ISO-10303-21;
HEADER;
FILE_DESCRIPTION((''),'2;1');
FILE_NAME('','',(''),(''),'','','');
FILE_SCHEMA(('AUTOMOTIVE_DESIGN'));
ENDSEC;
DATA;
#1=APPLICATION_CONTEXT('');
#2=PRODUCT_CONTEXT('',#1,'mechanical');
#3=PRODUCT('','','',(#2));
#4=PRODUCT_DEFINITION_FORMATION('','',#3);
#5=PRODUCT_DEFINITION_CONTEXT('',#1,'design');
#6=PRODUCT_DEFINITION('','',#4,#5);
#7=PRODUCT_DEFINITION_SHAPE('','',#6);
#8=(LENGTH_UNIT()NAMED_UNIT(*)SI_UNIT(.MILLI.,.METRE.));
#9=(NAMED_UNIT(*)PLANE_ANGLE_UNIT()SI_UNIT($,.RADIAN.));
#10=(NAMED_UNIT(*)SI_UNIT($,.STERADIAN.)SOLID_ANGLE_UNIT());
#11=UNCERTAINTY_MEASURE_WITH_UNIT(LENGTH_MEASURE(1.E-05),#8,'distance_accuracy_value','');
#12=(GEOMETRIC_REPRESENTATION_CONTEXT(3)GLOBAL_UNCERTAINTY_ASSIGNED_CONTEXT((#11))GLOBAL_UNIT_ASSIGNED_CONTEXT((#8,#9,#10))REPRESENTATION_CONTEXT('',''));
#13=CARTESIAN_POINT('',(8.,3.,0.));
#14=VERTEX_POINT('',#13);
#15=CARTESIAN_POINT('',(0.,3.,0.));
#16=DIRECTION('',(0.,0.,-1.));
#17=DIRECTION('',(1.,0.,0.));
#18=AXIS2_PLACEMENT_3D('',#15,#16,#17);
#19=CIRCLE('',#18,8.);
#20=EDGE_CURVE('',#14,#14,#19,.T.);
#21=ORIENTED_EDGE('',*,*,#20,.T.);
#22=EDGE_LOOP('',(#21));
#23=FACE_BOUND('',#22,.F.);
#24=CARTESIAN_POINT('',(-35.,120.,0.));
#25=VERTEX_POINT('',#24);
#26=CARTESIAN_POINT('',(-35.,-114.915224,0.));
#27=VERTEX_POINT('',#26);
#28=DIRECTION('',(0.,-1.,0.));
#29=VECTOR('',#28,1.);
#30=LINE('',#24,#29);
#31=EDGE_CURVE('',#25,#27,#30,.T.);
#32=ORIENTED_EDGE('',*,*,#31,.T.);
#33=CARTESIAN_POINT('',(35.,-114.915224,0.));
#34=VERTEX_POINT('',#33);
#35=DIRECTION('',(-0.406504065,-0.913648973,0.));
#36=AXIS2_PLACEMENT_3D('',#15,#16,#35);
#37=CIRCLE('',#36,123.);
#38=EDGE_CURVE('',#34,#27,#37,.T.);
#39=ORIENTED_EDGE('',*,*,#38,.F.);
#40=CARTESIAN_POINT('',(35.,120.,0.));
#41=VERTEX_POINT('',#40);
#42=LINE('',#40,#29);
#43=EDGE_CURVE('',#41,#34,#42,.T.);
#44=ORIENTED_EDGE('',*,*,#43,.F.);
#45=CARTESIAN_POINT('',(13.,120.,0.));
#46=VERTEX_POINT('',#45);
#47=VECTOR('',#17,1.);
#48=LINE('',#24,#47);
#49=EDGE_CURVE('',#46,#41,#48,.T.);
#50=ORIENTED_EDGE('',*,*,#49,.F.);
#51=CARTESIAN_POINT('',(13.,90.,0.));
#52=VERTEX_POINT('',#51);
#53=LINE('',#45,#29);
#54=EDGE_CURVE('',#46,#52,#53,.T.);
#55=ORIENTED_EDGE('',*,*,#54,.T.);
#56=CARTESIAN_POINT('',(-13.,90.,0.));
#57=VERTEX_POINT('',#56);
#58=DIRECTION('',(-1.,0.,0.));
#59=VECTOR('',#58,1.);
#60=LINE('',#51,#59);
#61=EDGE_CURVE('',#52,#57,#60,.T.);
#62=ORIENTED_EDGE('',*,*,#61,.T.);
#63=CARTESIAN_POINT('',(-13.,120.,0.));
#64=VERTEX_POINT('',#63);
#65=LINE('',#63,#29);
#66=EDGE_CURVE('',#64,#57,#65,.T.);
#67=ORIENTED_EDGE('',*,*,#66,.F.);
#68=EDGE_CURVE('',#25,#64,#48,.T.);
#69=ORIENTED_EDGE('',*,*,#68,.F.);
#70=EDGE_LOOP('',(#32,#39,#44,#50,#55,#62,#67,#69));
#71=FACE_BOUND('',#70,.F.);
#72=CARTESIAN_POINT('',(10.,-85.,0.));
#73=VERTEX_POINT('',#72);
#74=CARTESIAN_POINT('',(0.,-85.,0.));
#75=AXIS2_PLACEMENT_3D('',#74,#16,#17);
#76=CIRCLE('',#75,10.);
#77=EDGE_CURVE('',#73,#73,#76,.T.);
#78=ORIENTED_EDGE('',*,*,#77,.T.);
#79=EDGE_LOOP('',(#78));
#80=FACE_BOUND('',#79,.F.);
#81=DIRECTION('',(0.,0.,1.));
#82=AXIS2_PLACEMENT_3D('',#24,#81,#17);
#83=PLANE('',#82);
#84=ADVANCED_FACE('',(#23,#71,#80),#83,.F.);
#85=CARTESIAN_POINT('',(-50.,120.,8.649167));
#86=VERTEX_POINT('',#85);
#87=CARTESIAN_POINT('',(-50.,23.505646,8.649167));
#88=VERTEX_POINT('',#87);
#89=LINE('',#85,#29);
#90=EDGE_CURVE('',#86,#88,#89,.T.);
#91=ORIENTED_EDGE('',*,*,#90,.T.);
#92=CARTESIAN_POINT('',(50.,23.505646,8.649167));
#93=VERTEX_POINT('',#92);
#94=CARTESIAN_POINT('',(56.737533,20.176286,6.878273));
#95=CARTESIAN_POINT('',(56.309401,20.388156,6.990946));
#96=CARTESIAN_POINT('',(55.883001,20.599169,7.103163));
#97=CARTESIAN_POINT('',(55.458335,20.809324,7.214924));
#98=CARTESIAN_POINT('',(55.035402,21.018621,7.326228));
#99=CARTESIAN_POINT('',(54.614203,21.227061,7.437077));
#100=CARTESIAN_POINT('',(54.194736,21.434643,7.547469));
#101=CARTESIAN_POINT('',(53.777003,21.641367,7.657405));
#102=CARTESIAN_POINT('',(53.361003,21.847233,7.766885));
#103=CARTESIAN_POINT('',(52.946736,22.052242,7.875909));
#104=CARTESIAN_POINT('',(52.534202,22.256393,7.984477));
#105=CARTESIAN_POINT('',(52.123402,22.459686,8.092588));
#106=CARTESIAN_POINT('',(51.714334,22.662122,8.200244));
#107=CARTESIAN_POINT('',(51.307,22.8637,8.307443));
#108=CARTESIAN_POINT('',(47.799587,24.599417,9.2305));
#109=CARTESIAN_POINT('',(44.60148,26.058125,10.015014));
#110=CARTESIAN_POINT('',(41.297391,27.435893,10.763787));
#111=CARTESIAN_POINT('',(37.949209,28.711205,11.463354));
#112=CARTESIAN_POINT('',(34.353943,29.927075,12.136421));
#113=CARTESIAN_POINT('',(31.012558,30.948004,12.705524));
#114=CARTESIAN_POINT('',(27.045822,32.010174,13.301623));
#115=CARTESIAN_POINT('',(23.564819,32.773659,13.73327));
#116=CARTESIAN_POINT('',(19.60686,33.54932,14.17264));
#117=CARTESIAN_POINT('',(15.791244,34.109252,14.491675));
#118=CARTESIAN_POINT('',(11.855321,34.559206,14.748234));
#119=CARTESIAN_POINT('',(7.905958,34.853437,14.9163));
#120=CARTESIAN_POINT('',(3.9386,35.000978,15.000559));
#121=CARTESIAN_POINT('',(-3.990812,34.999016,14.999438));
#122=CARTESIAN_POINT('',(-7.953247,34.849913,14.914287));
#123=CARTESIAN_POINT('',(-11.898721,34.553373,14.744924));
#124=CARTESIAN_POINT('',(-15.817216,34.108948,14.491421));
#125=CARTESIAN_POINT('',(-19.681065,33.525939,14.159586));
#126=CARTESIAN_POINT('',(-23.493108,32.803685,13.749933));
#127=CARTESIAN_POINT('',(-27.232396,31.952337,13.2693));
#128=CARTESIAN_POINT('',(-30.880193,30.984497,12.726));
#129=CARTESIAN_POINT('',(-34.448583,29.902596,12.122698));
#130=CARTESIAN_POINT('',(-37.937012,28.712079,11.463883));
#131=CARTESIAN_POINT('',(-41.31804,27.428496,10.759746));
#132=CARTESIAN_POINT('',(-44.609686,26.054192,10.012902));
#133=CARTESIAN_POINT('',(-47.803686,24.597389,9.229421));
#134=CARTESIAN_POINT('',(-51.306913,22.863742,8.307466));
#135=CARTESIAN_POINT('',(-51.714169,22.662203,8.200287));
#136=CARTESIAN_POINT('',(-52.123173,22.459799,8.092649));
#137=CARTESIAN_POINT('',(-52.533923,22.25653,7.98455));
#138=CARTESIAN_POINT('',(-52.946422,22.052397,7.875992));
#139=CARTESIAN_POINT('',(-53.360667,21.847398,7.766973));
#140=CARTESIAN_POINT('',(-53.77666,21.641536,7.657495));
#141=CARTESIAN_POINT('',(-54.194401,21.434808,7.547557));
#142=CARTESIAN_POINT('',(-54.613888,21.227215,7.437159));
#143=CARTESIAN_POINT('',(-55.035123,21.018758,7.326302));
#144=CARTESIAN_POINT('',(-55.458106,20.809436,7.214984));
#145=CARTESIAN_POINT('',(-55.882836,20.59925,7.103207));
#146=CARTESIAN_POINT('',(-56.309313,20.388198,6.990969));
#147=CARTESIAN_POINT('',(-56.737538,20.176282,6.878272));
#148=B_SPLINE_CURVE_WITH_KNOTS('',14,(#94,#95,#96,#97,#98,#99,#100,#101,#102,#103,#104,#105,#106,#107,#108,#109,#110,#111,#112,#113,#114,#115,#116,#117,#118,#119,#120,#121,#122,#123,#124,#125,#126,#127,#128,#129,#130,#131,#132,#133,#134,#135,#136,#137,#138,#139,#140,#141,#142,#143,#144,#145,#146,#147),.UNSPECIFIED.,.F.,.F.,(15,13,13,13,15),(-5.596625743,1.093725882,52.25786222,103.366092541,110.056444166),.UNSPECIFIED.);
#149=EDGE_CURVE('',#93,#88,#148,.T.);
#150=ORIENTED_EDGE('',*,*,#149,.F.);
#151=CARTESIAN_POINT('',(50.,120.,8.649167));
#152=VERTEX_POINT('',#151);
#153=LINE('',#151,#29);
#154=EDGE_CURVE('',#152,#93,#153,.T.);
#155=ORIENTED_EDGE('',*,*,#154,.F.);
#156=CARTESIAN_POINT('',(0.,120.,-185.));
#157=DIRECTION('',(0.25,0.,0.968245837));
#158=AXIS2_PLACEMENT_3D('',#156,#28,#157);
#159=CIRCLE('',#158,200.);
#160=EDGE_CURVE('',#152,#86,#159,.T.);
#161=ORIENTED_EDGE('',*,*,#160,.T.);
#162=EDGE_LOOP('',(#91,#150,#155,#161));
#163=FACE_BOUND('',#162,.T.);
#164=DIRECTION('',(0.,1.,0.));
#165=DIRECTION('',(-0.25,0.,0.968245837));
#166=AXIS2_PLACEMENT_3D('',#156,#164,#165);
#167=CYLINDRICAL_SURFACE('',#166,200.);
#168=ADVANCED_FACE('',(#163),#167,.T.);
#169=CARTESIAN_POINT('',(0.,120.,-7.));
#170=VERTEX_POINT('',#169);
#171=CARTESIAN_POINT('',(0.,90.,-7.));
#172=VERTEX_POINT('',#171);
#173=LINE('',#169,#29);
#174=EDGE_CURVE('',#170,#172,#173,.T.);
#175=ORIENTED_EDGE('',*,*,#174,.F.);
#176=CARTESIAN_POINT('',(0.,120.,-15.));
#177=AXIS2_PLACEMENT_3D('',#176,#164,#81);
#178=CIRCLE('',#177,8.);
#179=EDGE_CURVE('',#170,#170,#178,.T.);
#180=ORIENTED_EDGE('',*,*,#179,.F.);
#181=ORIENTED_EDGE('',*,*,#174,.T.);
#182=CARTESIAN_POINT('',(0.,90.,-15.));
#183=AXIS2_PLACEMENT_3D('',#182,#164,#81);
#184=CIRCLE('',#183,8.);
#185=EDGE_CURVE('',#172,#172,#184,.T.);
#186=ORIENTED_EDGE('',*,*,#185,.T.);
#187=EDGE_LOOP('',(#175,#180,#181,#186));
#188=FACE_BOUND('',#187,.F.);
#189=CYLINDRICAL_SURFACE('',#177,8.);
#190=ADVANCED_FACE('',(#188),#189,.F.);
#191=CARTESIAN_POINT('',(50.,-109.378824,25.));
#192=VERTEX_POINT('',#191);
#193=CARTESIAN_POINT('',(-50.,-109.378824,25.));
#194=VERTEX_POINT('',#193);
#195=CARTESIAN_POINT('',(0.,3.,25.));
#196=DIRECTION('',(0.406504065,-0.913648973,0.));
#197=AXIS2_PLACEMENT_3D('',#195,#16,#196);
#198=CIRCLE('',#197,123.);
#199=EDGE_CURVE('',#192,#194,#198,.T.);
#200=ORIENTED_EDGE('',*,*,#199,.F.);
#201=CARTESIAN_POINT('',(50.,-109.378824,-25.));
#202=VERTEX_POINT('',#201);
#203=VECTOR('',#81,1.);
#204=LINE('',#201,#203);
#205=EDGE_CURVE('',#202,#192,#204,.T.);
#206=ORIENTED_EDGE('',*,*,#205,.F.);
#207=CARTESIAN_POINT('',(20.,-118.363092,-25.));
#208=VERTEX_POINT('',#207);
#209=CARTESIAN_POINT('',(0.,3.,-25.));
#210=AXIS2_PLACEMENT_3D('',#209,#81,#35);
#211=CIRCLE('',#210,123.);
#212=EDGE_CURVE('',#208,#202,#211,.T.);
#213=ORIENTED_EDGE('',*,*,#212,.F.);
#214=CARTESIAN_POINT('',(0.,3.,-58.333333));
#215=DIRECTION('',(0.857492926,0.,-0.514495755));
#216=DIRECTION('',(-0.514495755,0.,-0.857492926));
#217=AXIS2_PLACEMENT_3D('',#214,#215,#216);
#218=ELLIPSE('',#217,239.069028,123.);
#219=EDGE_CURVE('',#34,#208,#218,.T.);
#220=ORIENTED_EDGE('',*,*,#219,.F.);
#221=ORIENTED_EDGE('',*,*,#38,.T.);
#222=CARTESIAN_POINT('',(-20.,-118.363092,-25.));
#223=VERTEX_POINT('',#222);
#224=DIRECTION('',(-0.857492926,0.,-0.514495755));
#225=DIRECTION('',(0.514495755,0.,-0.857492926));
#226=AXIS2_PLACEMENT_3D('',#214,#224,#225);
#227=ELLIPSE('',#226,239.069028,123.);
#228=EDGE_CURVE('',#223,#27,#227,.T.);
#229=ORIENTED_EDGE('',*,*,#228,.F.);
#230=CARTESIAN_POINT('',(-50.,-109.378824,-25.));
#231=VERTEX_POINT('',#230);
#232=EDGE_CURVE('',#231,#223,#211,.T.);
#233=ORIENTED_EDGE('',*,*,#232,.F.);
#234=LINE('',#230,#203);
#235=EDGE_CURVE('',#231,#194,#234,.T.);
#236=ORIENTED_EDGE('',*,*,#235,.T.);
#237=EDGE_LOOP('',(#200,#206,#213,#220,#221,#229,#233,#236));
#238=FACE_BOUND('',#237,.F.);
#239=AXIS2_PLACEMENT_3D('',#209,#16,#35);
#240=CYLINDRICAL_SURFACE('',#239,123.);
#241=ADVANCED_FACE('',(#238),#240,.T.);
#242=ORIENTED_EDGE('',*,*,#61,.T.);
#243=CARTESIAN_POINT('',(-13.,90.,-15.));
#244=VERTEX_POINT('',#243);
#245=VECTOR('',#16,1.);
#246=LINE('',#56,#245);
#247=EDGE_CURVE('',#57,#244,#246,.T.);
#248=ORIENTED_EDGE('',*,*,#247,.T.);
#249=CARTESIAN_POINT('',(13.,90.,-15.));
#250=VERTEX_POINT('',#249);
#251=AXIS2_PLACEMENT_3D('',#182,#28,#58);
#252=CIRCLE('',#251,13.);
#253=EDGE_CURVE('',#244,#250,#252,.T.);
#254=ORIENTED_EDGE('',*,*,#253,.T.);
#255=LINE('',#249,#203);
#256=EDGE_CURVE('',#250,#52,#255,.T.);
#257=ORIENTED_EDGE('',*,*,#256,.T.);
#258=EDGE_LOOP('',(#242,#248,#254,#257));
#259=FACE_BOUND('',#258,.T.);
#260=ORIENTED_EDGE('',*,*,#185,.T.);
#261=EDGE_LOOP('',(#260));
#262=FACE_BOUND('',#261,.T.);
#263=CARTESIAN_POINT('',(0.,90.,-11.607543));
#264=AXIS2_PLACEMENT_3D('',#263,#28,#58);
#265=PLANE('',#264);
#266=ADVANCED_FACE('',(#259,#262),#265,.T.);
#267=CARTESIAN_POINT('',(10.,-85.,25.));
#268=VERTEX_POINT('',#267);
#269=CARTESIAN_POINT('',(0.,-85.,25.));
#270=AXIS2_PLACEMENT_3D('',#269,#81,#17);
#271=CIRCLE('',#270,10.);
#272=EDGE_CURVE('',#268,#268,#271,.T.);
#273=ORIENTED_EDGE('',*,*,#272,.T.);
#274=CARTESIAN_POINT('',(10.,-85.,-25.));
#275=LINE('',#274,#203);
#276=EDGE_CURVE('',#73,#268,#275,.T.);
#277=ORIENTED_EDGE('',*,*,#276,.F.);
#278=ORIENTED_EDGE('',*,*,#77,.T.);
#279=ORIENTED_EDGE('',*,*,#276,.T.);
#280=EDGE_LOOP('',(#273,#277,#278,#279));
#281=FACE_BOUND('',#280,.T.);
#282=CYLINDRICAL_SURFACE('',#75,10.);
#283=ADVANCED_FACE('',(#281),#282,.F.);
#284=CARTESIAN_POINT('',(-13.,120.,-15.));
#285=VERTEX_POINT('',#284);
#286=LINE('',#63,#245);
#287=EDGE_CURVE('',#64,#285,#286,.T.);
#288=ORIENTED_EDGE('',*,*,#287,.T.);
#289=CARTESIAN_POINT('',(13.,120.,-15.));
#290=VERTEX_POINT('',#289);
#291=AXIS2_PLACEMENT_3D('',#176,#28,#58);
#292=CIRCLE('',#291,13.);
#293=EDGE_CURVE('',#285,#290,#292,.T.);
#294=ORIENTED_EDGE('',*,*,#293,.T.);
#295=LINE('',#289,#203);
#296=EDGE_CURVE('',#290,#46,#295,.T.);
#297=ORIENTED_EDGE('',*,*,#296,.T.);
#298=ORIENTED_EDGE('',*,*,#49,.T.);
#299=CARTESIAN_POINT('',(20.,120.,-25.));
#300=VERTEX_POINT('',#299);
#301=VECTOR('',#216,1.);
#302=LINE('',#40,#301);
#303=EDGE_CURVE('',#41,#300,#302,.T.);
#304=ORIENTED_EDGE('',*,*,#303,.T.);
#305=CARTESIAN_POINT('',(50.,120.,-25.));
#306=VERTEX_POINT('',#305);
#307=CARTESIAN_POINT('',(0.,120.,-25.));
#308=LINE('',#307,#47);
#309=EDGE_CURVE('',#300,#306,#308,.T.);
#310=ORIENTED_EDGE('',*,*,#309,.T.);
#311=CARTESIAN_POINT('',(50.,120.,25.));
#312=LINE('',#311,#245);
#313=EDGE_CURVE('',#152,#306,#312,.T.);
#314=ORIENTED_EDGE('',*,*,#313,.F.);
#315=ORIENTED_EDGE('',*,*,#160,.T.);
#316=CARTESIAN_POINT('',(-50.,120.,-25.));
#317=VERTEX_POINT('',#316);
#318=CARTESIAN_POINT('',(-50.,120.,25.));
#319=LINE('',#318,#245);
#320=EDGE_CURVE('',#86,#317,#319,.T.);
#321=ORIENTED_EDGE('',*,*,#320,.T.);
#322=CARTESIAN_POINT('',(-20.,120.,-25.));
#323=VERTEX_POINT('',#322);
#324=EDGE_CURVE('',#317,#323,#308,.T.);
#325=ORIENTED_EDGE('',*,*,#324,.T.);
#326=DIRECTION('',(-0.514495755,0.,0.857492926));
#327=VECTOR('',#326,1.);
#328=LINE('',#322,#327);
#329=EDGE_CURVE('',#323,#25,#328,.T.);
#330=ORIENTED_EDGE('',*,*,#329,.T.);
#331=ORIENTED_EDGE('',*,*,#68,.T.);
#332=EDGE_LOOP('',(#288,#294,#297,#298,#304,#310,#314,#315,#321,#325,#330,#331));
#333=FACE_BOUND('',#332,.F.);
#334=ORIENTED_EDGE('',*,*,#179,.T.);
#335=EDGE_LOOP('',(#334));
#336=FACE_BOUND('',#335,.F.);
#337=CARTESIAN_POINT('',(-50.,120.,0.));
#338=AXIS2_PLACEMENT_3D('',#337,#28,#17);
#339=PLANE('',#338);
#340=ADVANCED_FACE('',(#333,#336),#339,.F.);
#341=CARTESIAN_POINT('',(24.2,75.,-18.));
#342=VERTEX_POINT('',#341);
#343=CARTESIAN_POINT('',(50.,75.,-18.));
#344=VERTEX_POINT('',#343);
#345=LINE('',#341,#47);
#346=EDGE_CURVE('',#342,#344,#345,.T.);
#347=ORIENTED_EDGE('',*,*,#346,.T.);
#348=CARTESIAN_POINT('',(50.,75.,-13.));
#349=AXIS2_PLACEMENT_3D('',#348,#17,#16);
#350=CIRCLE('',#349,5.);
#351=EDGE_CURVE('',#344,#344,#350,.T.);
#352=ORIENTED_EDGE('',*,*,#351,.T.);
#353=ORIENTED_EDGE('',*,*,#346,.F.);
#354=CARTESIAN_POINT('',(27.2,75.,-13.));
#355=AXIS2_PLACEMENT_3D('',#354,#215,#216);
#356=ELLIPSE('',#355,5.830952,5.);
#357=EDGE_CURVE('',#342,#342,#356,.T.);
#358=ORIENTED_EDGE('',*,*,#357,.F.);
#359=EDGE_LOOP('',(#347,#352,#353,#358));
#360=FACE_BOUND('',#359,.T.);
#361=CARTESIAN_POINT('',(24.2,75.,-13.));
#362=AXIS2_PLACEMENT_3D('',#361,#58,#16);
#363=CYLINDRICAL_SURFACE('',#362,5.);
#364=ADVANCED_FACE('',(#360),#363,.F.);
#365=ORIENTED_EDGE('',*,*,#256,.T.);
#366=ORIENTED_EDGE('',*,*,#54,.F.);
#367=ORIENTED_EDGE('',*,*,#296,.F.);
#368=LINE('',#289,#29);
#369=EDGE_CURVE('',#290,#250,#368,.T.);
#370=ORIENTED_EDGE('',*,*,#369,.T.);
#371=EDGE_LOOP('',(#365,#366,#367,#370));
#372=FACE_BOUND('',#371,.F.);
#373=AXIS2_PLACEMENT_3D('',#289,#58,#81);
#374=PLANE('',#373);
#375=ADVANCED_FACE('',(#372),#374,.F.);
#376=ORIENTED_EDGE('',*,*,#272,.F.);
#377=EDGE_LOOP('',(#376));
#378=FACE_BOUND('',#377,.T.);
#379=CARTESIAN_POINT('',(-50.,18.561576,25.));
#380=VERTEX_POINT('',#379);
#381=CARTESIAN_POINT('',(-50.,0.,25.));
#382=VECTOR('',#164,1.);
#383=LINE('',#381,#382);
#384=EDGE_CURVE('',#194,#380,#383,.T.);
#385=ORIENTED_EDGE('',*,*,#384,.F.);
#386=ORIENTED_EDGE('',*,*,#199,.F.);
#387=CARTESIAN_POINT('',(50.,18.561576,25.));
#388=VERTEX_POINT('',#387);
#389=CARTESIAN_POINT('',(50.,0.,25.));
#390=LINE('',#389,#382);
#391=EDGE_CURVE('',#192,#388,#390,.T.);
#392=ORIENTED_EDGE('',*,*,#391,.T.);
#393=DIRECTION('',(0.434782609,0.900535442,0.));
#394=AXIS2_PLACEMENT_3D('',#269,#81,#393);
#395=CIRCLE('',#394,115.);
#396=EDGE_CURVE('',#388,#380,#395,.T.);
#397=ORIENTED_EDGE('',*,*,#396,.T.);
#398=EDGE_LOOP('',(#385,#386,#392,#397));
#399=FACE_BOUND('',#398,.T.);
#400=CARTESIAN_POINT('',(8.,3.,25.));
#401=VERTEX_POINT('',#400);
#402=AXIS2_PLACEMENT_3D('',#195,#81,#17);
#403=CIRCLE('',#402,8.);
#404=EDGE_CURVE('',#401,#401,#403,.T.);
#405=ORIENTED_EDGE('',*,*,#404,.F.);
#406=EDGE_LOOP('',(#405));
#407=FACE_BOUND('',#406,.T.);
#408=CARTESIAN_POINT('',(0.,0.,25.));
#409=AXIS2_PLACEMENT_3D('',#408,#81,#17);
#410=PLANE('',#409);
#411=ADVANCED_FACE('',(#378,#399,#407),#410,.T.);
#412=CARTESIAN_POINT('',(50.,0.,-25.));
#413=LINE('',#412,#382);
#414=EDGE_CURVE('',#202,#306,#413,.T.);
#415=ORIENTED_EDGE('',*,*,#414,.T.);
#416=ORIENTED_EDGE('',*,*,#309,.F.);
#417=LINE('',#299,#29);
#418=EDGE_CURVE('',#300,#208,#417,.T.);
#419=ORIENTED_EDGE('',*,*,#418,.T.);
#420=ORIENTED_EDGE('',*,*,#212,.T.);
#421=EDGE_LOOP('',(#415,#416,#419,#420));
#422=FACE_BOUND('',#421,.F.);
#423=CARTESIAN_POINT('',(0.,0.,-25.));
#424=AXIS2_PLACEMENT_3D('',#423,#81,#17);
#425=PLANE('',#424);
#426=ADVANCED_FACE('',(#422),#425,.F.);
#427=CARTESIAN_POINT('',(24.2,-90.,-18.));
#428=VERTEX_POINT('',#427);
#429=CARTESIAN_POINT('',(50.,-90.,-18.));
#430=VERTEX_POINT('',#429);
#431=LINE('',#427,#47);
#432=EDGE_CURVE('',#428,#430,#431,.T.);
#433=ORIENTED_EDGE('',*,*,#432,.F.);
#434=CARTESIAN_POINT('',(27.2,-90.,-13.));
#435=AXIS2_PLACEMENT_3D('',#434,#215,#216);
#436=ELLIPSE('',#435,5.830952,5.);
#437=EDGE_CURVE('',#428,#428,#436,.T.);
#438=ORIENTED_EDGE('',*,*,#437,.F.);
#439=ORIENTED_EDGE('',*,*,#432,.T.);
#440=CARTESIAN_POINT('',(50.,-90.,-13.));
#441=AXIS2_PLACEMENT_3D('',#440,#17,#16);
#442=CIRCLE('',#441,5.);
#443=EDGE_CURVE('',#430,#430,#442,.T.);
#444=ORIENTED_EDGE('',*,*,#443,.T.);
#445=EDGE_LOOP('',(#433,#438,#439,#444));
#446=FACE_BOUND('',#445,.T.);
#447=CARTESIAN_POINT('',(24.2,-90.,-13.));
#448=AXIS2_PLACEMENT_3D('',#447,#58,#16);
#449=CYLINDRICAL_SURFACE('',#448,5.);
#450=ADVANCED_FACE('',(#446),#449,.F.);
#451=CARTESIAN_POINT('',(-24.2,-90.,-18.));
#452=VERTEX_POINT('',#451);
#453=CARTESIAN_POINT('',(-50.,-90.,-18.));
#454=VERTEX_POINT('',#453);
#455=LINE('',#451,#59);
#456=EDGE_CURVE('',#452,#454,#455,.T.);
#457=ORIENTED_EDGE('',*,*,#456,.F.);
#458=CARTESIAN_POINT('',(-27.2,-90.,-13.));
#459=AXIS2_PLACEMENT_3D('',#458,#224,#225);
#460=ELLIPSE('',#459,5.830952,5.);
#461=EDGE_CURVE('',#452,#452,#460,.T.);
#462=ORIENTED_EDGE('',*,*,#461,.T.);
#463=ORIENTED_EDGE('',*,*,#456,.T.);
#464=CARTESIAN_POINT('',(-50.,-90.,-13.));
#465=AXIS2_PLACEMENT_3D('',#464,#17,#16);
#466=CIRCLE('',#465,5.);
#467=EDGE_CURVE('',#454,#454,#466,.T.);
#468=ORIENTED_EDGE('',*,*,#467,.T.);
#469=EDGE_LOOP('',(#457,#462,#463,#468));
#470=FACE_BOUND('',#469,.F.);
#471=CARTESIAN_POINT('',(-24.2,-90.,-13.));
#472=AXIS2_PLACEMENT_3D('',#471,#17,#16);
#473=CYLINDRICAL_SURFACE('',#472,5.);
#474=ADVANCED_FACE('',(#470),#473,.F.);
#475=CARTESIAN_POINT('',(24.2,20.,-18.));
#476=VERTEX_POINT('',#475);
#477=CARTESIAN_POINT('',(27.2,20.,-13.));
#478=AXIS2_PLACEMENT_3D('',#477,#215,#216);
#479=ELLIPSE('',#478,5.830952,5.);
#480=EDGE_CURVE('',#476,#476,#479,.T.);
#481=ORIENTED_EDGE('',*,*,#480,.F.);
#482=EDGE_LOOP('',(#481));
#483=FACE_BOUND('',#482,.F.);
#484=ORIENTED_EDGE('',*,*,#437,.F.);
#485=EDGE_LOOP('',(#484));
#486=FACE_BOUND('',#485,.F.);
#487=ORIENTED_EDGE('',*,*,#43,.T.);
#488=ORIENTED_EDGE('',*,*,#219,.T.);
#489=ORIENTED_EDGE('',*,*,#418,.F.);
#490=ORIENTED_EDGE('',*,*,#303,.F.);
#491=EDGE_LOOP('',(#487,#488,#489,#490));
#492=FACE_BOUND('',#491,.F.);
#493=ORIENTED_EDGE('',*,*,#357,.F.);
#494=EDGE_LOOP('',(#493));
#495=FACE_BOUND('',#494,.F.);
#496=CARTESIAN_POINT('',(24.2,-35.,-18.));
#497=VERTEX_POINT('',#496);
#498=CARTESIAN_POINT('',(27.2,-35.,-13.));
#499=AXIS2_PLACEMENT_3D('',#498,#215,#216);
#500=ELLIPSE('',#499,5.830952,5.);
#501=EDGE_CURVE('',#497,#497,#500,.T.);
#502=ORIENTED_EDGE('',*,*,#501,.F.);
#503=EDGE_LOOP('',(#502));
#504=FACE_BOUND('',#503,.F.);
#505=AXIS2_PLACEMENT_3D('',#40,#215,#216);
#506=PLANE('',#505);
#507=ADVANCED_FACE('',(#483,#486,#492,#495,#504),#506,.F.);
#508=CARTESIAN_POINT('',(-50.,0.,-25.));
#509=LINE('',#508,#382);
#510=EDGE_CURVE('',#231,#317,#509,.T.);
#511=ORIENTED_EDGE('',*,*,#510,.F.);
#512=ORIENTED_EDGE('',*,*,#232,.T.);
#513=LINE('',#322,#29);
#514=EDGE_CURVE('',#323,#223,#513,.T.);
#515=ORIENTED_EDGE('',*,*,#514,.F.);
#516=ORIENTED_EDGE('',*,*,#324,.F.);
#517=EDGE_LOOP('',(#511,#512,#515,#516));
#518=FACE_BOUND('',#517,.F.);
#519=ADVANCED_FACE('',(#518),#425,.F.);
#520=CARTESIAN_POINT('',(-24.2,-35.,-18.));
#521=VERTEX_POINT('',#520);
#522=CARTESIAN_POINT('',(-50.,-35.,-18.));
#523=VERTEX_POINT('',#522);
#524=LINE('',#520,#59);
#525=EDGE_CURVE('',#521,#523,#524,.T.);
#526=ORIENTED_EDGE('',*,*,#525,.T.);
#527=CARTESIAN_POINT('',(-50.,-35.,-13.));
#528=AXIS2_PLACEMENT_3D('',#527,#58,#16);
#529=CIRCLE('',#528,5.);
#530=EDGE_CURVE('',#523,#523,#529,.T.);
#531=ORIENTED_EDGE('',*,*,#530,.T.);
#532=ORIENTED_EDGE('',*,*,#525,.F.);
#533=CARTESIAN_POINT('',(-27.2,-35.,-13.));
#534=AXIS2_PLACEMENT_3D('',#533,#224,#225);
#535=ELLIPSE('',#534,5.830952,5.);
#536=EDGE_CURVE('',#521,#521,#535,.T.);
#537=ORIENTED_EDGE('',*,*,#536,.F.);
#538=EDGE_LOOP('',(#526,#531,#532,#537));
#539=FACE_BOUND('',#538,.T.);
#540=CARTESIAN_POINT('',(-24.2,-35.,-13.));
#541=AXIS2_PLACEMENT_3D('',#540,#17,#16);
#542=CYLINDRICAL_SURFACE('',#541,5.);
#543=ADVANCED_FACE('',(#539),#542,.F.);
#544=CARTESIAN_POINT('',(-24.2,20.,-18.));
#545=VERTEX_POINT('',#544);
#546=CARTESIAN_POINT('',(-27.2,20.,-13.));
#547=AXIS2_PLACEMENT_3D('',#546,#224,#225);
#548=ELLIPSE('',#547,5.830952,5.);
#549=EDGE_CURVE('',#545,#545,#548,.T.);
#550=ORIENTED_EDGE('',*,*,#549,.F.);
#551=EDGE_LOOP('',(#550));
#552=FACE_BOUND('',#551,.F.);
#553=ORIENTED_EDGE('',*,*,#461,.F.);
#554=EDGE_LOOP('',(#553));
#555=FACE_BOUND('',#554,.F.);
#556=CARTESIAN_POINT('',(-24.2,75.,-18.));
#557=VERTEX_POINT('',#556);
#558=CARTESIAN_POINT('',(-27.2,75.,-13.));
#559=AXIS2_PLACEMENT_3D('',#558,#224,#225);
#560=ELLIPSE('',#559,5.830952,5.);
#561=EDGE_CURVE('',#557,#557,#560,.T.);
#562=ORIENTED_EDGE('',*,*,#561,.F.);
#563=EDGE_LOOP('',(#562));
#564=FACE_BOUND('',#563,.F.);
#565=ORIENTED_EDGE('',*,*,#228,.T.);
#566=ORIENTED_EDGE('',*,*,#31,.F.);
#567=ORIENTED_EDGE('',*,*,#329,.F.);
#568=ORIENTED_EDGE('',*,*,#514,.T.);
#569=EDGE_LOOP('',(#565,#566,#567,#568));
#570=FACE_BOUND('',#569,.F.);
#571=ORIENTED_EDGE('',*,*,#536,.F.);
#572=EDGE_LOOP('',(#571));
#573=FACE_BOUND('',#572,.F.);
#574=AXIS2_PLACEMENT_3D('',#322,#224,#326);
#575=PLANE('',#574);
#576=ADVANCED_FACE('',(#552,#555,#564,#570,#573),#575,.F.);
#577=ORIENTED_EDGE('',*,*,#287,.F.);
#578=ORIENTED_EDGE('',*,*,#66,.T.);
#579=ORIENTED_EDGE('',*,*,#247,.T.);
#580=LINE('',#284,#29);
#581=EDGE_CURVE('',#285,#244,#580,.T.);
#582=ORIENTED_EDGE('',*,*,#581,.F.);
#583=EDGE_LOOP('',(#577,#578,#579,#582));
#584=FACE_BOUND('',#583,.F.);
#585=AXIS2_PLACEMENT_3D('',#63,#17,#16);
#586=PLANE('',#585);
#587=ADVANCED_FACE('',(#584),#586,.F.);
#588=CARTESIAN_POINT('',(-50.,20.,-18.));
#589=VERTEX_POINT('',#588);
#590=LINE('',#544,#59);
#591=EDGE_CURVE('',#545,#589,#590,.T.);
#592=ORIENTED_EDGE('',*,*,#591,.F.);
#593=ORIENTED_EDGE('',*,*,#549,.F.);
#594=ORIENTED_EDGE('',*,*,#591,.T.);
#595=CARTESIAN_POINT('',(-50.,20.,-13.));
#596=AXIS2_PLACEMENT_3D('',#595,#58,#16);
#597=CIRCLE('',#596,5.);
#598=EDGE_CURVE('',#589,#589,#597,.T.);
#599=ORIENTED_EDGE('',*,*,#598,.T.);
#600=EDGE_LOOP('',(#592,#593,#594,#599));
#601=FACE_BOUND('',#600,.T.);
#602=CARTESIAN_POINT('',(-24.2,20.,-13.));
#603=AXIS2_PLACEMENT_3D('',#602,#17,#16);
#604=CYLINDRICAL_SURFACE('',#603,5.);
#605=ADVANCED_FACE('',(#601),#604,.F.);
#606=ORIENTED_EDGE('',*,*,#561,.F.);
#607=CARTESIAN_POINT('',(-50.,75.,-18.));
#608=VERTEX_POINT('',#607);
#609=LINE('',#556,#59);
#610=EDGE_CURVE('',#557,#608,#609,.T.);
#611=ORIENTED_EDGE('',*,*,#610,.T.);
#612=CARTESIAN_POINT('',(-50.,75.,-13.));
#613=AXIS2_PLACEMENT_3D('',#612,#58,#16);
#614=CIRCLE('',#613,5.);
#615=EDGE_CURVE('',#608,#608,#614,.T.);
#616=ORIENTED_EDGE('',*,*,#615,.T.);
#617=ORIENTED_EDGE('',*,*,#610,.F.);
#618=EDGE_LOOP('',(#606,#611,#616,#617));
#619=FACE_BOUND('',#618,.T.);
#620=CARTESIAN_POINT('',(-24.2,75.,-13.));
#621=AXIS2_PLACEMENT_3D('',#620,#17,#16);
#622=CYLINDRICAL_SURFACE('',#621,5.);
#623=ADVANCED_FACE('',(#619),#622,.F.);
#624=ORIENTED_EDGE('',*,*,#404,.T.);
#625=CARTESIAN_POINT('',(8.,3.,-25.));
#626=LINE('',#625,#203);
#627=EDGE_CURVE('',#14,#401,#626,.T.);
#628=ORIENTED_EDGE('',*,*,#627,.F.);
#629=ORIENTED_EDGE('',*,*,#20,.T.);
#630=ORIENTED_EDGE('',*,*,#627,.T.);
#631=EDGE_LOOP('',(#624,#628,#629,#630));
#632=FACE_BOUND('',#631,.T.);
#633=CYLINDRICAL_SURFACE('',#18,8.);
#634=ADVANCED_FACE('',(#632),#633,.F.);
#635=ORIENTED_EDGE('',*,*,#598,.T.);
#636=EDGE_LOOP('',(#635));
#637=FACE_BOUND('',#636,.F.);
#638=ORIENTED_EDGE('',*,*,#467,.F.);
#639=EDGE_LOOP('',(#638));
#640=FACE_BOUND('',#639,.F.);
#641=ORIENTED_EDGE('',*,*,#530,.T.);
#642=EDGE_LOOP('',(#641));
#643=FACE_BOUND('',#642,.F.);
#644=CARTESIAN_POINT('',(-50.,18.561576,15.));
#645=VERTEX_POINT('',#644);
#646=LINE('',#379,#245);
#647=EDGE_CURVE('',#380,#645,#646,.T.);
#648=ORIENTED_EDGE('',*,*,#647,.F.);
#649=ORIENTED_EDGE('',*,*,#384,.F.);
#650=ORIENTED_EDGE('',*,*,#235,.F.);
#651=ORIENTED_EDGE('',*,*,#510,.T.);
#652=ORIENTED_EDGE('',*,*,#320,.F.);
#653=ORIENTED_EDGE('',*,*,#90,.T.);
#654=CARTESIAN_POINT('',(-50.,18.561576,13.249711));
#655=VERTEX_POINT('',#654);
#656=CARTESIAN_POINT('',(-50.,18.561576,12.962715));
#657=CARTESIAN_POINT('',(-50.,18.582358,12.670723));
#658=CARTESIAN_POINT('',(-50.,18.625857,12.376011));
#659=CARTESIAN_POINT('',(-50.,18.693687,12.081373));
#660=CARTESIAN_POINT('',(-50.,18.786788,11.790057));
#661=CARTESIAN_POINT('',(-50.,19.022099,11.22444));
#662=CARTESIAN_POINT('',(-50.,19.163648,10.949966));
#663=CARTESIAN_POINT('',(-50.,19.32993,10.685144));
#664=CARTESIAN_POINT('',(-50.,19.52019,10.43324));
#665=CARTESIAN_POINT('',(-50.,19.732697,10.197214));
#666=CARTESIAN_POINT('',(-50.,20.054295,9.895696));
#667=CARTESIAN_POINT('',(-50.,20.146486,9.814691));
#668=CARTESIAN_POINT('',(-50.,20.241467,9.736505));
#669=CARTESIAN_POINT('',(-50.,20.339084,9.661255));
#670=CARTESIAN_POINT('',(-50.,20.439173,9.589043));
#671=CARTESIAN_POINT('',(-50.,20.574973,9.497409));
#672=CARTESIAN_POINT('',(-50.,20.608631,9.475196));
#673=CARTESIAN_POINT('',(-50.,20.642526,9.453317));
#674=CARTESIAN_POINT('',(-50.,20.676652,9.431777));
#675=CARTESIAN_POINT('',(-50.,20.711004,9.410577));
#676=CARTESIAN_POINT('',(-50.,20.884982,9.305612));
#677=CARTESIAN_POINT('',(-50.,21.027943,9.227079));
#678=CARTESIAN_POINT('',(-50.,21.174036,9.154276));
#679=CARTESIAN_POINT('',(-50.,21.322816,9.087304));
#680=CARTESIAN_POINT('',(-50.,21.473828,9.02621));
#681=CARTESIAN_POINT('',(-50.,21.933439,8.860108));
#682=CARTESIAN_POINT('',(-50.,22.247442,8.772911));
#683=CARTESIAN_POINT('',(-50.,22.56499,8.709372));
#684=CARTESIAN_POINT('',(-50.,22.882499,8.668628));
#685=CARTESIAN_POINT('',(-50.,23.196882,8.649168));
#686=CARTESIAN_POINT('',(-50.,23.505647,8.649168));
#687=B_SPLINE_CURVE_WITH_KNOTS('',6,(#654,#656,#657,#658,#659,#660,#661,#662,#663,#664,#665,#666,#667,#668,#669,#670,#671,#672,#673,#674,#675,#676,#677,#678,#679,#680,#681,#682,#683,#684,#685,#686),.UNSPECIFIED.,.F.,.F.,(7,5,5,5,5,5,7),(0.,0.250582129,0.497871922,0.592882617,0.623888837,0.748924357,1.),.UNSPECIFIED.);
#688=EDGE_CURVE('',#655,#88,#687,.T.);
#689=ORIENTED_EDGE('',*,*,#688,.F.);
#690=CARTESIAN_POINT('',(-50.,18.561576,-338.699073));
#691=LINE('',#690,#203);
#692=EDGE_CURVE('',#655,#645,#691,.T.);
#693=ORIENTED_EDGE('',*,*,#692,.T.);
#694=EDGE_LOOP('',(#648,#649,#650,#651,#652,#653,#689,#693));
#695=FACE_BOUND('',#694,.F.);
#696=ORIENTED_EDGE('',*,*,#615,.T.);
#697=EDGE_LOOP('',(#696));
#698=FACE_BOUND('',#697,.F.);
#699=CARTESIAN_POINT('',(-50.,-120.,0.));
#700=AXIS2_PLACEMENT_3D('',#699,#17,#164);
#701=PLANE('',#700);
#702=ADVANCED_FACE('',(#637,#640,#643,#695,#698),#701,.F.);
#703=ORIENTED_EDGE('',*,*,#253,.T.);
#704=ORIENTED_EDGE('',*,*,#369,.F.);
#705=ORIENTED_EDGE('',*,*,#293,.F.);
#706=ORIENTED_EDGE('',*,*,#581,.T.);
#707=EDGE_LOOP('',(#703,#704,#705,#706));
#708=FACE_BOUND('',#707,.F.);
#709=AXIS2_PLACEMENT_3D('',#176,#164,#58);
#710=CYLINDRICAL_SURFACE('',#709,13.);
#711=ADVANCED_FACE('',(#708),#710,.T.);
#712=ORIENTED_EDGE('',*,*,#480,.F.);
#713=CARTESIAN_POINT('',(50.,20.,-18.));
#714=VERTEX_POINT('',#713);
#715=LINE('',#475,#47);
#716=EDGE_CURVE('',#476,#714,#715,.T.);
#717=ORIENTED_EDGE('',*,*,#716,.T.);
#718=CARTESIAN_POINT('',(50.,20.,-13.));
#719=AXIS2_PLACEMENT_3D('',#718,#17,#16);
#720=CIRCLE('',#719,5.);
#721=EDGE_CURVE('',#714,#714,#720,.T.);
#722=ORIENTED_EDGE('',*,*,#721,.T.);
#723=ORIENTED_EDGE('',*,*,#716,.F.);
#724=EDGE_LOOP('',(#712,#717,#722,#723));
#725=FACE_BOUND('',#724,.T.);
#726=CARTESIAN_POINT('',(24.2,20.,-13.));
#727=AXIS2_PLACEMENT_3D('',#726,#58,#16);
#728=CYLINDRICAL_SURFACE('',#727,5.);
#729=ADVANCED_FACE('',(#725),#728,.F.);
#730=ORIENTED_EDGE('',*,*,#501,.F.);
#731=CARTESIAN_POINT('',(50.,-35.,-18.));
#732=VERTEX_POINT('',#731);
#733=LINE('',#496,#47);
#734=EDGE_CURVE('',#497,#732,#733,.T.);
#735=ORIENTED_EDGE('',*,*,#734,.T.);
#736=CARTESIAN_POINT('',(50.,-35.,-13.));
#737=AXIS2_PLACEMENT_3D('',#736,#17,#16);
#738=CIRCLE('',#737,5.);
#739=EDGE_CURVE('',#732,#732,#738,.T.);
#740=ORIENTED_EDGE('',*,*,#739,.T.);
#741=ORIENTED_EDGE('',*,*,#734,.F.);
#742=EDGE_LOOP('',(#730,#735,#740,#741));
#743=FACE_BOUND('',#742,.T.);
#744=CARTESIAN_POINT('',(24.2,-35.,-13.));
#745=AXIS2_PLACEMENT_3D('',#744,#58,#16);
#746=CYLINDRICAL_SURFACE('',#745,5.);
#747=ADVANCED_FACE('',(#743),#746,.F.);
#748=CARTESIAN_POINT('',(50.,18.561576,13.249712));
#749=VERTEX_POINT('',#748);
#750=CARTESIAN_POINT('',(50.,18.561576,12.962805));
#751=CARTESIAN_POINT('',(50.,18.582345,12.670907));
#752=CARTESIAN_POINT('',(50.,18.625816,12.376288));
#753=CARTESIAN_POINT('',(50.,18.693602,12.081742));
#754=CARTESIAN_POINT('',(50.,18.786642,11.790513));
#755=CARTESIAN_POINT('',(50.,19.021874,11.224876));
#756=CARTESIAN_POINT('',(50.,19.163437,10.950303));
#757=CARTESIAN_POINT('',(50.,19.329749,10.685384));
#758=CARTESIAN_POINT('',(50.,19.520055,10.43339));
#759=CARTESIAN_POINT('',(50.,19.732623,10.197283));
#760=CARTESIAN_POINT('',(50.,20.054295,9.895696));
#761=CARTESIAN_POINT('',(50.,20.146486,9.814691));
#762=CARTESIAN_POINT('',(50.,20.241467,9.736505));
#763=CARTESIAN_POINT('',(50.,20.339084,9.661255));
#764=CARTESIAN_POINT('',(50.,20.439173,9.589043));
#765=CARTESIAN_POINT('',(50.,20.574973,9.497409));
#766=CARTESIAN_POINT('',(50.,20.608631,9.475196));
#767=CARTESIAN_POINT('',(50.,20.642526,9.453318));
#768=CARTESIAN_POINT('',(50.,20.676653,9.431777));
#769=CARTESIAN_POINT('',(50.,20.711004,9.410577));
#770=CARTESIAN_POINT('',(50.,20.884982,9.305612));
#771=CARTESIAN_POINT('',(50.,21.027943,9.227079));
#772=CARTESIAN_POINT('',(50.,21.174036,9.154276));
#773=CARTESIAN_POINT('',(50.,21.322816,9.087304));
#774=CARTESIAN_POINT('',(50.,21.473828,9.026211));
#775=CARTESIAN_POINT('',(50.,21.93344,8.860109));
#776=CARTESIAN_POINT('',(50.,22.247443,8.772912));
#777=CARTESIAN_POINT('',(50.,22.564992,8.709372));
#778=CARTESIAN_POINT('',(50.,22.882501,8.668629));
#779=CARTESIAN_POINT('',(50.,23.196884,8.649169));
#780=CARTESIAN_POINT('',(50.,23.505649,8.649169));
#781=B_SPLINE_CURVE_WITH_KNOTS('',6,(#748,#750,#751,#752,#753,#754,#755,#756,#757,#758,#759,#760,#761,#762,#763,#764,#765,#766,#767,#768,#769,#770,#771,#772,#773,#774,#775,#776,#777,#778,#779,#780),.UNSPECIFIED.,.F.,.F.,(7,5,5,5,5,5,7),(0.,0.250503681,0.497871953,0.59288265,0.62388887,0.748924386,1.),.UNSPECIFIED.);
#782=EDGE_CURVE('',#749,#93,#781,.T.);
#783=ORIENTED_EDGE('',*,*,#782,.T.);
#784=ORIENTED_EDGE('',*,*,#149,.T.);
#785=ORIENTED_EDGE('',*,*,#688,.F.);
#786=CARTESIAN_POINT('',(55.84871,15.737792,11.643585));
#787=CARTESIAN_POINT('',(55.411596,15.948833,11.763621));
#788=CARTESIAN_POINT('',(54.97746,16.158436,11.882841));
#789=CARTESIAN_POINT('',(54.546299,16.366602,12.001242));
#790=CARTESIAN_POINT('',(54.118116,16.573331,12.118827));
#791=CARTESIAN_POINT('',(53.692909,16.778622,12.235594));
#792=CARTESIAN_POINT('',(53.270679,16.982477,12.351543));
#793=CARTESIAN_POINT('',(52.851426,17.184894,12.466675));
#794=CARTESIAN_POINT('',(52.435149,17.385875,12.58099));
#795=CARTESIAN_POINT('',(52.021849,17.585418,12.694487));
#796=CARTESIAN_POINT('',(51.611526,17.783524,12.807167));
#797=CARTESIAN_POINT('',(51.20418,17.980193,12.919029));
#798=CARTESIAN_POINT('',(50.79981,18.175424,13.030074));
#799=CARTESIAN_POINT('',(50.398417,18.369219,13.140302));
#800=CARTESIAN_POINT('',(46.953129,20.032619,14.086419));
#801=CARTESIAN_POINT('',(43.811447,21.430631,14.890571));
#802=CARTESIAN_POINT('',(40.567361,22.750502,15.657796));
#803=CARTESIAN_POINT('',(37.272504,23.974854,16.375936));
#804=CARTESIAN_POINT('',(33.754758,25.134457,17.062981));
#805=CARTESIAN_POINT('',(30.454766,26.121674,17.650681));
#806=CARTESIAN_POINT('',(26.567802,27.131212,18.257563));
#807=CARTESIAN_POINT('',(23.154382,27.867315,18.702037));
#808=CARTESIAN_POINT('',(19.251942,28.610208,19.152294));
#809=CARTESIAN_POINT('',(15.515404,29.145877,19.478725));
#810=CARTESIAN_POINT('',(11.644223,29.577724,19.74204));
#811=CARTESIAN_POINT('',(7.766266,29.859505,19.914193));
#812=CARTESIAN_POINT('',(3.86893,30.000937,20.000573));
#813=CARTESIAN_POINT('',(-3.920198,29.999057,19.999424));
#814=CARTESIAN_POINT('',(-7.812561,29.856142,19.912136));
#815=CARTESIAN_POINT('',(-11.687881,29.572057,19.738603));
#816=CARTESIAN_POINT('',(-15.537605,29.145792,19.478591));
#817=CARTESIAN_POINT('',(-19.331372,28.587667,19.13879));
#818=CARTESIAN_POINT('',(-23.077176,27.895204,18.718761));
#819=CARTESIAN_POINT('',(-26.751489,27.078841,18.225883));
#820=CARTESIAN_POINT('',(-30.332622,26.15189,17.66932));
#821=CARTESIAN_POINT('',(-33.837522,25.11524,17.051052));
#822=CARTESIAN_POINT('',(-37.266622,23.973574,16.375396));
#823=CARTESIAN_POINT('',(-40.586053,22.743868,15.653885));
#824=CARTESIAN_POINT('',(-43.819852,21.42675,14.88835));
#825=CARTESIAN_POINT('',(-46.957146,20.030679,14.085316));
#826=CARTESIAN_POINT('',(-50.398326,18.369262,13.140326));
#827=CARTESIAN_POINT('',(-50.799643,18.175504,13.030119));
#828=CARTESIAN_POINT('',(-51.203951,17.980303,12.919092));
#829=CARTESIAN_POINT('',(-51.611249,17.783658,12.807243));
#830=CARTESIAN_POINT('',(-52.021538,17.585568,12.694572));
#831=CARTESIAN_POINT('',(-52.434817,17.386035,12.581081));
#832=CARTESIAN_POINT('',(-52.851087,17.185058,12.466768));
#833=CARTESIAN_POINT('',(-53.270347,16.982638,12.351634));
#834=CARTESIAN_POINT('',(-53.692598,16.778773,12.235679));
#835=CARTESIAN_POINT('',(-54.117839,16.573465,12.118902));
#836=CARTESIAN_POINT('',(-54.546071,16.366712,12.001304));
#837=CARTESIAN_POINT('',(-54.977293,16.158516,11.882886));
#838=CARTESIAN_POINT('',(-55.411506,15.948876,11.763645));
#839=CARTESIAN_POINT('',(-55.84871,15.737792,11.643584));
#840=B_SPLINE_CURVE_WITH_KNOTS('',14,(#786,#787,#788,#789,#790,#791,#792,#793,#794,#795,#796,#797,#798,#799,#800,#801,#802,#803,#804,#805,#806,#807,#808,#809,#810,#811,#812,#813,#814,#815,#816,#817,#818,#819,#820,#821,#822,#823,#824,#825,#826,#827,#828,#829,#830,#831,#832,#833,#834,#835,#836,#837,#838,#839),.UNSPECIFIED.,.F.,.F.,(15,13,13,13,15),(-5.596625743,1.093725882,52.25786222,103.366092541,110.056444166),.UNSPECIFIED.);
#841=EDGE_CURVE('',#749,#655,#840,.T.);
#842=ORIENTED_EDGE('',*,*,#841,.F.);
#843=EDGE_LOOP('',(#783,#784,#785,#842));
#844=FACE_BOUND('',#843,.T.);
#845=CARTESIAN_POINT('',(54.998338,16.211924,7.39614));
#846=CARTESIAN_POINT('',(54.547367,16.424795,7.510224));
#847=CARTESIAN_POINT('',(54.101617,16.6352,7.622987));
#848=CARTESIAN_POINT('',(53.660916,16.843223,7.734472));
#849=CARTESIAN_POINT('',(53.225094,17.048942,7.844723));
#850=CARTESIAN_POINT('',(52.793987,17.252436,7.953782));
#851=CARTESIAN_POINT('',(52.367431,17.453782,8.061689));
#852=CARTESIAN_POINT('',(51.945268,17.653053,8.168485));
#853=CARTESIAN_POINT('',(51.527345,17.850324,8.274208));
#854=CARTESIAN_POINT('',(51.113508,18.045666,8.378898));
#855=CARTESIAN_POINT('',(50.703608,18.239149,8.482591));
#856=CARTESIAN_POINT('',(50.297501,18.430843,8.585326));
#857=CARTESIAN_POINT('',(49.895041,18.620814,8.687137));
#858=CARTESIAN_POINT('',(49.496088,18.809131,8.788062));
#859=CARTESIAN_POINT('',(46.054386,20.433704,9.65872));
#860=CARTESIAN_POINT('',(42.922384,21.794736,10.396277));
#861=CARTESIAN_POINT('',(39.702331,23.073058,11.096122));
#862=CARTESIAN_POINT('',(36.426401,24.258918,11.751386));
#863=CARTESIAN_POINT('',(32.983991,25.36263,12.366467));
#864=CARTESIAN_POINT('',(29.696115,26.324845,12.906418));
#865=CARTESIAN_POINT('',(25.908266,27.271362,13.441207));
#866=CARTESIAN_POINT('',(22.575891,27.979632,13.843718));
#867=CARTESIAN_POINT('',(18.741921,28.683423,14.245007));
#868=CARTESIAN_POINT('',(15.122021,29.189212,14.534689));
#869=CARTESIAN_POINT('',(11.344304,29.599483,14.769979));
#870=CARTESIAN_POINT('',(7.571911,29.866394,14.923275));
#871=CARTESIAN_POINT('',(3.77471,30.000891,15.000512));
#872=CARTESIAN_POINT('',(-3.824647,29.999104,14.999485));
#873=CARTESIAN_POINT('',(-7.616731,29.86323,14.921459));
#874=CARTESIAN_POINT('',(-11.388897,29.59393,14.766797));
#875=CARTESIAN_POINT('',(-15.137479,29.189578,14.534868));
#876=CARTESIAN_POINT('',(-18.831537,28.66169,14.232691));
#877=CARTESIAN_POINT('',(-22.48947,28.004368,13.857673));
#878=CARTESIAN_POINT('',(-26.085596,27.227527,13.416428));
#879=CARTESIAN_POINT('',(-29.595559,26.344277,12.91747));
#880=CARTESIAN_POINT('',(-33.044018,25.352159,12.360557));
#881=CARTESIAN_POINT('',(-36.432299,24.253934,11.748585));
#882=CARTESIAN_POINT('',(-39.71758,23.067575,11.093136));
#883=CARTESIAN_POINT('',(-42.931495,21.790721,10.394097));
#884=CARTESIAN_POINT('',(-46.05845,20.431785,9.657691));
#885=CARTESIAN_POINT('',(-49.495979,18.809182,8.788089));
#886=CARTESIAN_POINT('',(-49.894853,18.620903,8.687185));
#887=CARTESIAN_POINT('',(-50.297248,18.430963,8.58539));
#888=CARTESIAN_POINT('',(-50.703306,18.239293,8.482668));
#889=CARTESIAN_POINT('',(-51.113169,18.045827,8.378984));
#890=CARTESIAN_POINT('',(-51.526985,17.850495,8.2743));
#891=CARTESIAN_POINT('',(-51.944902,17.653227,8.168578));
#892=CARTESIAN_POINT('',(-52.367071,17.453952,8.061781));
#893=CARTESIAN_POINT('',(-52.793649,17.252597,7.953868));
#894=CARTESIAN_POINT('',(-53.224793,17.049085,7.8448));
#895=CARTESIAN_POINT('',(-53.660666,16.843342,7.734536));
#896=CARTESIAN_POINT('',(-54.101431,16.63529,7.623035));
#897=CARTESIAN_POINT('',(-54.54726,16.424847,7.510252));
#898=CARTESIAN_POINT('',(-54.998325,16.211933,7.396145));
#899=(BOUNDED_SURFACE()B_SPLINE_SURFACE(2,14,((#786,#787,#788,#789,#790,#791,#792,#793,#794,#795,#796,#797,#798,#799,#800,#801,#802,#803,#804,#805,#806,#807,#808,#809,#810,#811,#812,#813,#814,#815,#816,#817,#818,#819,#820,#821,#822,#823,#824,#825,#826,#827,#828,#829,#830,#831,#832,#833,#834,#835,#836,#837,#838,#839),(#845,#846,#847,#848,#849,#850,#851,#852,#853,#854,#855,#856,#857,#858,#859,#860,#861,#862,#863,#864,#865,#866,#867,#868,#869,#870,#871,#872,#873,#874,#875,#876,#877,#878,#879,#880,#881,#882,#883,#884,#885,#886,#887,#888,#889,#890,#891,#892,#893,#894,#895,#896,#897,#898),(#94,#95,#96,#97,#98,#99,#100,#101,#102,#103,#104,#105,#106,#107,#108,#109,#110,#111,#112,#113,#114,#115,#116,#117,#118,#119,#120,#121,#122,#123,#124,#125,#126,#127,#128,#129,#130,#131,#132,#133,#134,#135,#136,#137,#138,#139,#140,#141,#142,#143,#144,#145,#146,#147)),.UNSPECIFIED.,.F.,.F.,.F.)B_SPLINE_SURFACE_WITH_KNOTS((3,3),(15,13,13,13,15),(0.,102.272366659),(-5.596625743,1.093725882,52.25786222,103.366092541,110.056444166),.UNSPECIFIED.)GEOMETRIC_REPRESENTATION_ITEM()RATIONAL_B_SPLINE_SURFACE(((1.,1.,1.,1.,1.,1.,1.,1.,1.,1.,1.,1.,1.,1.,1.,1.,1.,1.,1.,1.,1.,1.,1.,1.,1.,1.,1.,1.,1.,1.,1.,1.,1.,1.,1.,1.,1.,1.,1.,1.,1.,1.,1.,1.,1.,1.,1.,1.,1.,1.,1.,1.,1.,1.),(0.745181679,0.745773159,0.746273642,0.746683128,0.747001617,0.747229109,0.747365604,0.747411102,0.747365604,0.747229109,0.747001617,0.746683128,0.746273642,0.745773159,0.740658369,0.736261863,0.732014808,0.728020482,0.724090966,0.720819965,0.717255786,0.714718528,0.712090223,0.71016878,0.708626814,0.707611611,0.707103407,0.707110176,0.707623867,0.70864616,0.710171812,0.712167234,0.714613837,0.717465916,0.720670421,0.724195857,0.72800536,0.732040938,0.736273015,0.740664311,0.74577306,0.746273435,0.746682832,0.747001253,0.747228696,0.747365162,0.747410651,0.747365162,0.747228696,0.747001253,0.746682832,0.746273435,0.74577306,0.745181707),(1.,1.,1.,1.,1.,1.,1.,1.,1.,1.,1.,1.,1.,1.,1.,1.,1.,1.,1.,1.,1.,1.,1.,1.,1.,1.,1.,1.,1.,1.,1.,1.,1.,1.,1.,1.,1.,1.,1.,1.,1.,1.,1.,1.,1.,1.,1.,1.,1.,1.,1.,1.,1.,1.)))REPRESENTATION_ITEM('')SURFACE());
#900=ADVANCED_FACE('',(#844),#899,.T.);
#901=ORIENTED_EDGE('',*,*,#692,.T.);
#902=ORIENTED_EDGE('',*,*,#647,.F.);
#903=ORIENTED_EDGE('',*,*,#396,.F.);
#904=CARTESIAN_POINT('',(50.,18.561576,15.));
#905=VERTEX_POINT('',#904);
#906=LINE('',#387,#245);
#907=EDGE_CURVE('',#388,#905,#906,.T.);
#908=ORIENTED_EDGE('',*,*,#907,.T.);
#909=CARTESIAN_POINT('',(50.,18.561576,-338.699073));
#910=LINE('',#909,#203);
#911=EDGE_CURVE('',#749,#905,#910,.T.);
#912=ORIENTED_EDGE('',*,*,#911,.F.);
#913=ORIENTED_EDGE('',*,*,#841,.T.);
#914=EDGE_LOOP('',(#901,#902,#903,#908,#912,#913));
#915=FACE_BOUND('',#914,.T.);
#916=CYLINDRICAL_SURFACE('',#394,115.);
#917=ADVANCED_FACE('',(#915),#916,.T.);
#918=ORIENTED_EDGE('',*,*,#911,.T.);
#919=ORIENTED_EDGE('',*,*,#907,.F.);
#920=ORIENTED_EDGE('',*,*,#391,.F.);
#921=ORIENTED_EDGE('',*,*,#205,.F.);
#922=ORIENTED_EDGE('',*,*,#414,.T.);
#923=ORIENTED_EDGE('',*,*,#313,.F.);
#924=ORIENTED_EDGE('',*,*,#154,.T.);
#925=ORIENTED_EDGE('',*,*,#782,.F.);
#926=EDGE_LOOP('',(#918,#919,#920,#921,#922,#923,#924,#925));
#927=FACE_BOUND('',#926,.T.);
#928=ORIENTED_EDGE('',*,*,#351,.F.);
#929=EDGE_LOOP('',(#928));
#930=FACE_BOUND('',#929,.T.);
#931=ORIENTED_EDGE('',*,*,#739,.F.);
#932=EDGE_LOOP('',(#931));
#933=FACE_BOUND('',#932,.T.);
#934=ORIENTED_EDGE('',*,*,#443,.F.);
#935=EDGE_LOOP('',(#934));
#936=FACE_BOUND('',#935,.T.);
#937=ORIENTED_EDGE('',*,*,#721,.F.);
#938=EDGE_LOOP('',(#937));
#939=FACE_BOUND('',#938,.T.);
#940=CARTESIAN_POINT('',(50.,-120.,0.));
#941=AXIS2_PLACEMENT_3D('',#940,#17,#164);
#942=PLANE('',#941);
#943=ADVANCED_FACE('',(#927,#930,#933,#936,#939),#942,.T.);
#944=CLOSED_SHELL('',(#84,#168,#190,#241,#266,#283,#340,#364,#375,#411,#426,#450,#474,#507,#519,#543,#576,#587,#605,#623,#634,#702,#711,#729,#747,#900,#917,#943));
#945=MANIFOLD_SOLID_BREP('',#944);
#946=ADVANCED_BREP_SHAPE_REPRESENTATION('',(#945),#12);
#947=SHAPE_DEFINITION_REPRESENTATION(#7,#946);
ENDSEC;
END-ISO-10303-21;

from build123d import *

# Parameters (mm, degrees)
SKETCH1_W               = 100
SKETCH1_H               = 240
SKETCH1_R               = 8
SKETCH1_R_2             = 10
BOSS_EXTRUDE1_DEPTH     = 25
SKETCH2_OUTSIDE_W       = 154.952
SKETCH2_OUTSIDE_H       = 294.952
SKETCH2_OUTSIDE_R       = 10
SKETCH2_OUTSIDE_R_2     = 8
CUT_EXTRUDE1_DEPTH      = 10
CUT_EXTRUDE2_START      = -50
SKETCH3_OUTSIDE_W       = 154.952
SKETCH3_OUTSIDE_H       = 294.952
CUT_EXTRUDE2_DEPTH      = 50
CUT_EXTRUDE7_REACH      = 242
SKETCH8_R               = 8
BOSS_EXTRUDE2_DEPTH     = 30
CUT_EXTRUDE8_REACH      = 242
CUT_EXTRUDE8_END_RADIUS = 115
CUT_EXTRUDE9_START      = -25.8
SKETCH10_R              = 5
CUT_EXTRUDE9_DEPTH      = 25.8
LPATTERN1_COUNT         = 4
LPATTERN1_PITCH         = 55
MIRROR1_START           = -25.8
MIRROR1_COPY_1_SKETCH_R = 5
MIRROR1_COPY_1_DEPTH    = 25.8
MIRROR1_COPY_2_SKETCH_R = 5
MIRROR1_COPY_2_DEPTH    = 25.8
MIRROR1_COPY_3_SKETCH_R = 5
MIRROR1_COPY_3_DEPTH    = 25.8
FILLET1_R               = 5


with BuildPart() as part:
    # Sketch1 → Boss-Extrude1 (new body, symmetric)
    with BuildSketch(Plane.XY):
        Rectangle(SKETCH1_W, SKETCH1_H)
        with Locations((0, 3)):
            Circle(SKETCH1_R, mode=Mode.SUBTRACT)
        with Locations((0, -85)):
            Circle(SKETCH1_R_2, mode=Mode.SUBTRACT)
    extrude(amount=BOSS_EXTRUDE1_DEPTH, both=True)

    # Sketch2 outside → Cut-Extrude1 (cut)
    with BuildSketch(Plane.XY.offset(25)):
        Rectangle(SKETCH2_OUTSIDE_W, SKETCH2_OUTSIDE_H)
        with BuildLine():
            Line((50, -120), (50, 18.561575886))
            ThreePointArc((50, 18.561575886), (0, 30), (-50, 18.561575886))
            Line((-50, 18.561575886), (-50, -120))
            Line((-50, -120), (50, -120))
        make_face(mode=Mode.SUBTRACT)
        with Locations((0, -85)):
            Circle(SKETCH2_OUTSIDE_R)
        with Locations((0, 3)):
            Circle(SKETCH2_OUTSIDE_R_2)
    extrude(amount=-CUT_EXTRUDE1_DEPTH, mode=Mode.SUBTRACT)

    # Sketch3 outside → Cut-Extrude2 (cut)
    with BuildSketch(Plane.XY.offset(25).offset(CUT_EXTRUDE2_START)):
        Rectangle(SKETCH3_OUTSIDE_W, SKETCH3_OUTSIDE_H)
        with BuildLine():
            Line((50, 120), (-50, 120))
            Line((-50, 120), (-50, -109.378823628))
            ThreePointArc((-50, -109.378823628), (0, -120), (50, -109.378823628))
            Line((50, -109.378823628), (50, 120))
        make_face(mode=Mode.SUBTRACT)
    extrude(amount=CUT_EXTRUDE2_DEPTH, mode=Mode.SUBTRACT)

    # Sketch7 → Cut-Extrude7 (cut, up to next)
    with BuildSketch(Plane(origin=(0, 120, 0), x_dir=(1, 0, 0), z_dir=(0, 1, 0)), mode=Mode.PRIVATE) as cut_extrude7_sk1:
        Polygon((-35, 0), (35, 0), (20, 25), (-20, 25), align=None)
    cut_extrude7_tool1 = extrude(cut_extrude7_sk1.sketch, amount=-CUT_EXTRUDE7_REACH, mode=Mode.PRIVATE) & part.part
    add(cut_extrude7_tool1.solids().sort_by_distance((0, 120, -11.363636))[0], mode=Mode.SUBTRACT)

    # Sketch8 → Boss-Extrude2 (add)
    with BuildSketch(Plane(origin=(0, 120, 0), x_dir=(1, 0, 0), z_dir=(0, 1, 0))):
        with BuildLine():
            Line((13, 15), (13, 0))
            Line((13, 0), (-13, 0))
            Line((-13, 0), (-13, 15))
            ThreePointArc((-13, 15), (0, 28), (13, 15))
        make_face()
        with Locations(Location((0, 15, 0), (0, 0, 270))):  # turned: the seam where the file's is
            Circle(SKETCH8_R, mode=Mode.SUBTRACT)
    extrude(amount=-BOSS_EXTRUDE2_DEPTH)

    # Cut-Extrude8: up to this cylinder (the profile starts outside it)
    cut_extrude8_end = Plane(origin=(0, -85, 18.800927), z_dir=(0, 0, 1)) * Cylinder(CUT_EXTRUDE8_END_RADIUS, 715, mode=Mode.PRIVATE)
    # Sketch9 → Cut-Extrude8 (cut, up to the surface)
    with BuildSketch(Plane(origin=(0, 120, 0), x_dir=(1, 0, 0), z_dir=(0, 1, 0)), mode=Mode.PRIVATE) as cut_extrude8_sk1:
        with BuildLine():
            Line((50, -8.64916731), (50, -25))
            Line((50, -25), (-50, -25))
            Line((-50, -25), (-50, -8.64916731))
            ThreePointArc((-50, -8.64916731), (0, -15), (50, -8.64916731))
        make_face()
    cut_extrude8_tool1 = extrude(cut_extrude8_sk1.sketch, amount=-CUT_EXTRUDE8_REACH, mode=Mode.PRIVATE) - cut_extrude8_end
    add(cut_extrude8_tool1.solids().sort_by_distance((0, 120, 18.800927))[0], mode=Mode.SUBTRACT)

    # Sketch10 → Cut-Extrude9 (cut)
    with BuildSketch(Plane(origin=(50, 0, 0), x_dir=(0, 0, -1), z_dir=(1, 0, 0)).offset(CUT_EXTRUDE9_START)):
        with Locations((13, -90)):
            Circle(SKETCH10_R)
    cut_extrude9 = extrude(amount=CUT_EXTRUDE9_DEPTH, mode=Mode.SUBTRACT)

    # LPattern1: Cut-Extrude9 ×4
    with Locations(*[(0, i * LPATTERN1_PITCH, 0) for i in range(1, LPATTERN1_COUNT)]):
        add(cut_extrude9, mode=Mode.SUBTRACT)

    # Mirror1: Cut-Extrude9 across plane
    add(cut_extrude9.mirror(Plane(origin=(0, 0, 0), x_dir=(0, 0, 1), z_dir=(1, 0, 0))), mode=Mode.SUBTRACT)

    # Mirror1 copy 1 sketch → Mirror1 copy 1 (cut)
    with BuildSketch(Plane(origin=(-50, 55, 0), x_dir=(0, 0, -1), z_dir=(-1, 0, 0)).offset(MIRROR1_START)):
        with Locations((13, 90)):
            Circle(MIRROR1_COPY_1_SKETCH_R)
    extrude(amount=MIRROR1_COPY_1_DEPTH, mode=Mode.SUBTRACT)

    # Mirror1 copy 2 sketch → Mirror1 copy 2 (cut)
    with BuildSketch(Plane(origin=(-50, 110, 0), x_dir=(0, 0, -1), z_dir=(-1, 0, 0)).offset(MIRROR1_START)):
        with Locations((13, 90)):
            Circle(MIRROR1_COPY_2_SKETCH_R)
    extrude(amount=MIRROR1_COPY_2_DEPTH, mode=Mode.SUBTRACT)

    # Mirror1 copy 3 sketch → Mirror1 copy 3 (cut)
    with BuildSketch(Plane(origin=(-50, 165, 0), x_dir=(0, 0, -1), z_dir=(-1, 0, 0)).offset(MIRROR1_START)):
        with Locations((13, 90)):
            Circle(MIRROR1_COPY_3_SKETCH_R)
    extrude(amount=MIRROR1_COPY_3_DEPTH, mode=Mode.SUBTRACT)

    # Fillet1
    fillet1_edges = [part.edges().sort_by_distance(p)[0] for p in [
        (-1e-09, 30, 15),
    ]]
    fillet(fillet1_edges, radius=FILLET1_R)


solid = part.part
